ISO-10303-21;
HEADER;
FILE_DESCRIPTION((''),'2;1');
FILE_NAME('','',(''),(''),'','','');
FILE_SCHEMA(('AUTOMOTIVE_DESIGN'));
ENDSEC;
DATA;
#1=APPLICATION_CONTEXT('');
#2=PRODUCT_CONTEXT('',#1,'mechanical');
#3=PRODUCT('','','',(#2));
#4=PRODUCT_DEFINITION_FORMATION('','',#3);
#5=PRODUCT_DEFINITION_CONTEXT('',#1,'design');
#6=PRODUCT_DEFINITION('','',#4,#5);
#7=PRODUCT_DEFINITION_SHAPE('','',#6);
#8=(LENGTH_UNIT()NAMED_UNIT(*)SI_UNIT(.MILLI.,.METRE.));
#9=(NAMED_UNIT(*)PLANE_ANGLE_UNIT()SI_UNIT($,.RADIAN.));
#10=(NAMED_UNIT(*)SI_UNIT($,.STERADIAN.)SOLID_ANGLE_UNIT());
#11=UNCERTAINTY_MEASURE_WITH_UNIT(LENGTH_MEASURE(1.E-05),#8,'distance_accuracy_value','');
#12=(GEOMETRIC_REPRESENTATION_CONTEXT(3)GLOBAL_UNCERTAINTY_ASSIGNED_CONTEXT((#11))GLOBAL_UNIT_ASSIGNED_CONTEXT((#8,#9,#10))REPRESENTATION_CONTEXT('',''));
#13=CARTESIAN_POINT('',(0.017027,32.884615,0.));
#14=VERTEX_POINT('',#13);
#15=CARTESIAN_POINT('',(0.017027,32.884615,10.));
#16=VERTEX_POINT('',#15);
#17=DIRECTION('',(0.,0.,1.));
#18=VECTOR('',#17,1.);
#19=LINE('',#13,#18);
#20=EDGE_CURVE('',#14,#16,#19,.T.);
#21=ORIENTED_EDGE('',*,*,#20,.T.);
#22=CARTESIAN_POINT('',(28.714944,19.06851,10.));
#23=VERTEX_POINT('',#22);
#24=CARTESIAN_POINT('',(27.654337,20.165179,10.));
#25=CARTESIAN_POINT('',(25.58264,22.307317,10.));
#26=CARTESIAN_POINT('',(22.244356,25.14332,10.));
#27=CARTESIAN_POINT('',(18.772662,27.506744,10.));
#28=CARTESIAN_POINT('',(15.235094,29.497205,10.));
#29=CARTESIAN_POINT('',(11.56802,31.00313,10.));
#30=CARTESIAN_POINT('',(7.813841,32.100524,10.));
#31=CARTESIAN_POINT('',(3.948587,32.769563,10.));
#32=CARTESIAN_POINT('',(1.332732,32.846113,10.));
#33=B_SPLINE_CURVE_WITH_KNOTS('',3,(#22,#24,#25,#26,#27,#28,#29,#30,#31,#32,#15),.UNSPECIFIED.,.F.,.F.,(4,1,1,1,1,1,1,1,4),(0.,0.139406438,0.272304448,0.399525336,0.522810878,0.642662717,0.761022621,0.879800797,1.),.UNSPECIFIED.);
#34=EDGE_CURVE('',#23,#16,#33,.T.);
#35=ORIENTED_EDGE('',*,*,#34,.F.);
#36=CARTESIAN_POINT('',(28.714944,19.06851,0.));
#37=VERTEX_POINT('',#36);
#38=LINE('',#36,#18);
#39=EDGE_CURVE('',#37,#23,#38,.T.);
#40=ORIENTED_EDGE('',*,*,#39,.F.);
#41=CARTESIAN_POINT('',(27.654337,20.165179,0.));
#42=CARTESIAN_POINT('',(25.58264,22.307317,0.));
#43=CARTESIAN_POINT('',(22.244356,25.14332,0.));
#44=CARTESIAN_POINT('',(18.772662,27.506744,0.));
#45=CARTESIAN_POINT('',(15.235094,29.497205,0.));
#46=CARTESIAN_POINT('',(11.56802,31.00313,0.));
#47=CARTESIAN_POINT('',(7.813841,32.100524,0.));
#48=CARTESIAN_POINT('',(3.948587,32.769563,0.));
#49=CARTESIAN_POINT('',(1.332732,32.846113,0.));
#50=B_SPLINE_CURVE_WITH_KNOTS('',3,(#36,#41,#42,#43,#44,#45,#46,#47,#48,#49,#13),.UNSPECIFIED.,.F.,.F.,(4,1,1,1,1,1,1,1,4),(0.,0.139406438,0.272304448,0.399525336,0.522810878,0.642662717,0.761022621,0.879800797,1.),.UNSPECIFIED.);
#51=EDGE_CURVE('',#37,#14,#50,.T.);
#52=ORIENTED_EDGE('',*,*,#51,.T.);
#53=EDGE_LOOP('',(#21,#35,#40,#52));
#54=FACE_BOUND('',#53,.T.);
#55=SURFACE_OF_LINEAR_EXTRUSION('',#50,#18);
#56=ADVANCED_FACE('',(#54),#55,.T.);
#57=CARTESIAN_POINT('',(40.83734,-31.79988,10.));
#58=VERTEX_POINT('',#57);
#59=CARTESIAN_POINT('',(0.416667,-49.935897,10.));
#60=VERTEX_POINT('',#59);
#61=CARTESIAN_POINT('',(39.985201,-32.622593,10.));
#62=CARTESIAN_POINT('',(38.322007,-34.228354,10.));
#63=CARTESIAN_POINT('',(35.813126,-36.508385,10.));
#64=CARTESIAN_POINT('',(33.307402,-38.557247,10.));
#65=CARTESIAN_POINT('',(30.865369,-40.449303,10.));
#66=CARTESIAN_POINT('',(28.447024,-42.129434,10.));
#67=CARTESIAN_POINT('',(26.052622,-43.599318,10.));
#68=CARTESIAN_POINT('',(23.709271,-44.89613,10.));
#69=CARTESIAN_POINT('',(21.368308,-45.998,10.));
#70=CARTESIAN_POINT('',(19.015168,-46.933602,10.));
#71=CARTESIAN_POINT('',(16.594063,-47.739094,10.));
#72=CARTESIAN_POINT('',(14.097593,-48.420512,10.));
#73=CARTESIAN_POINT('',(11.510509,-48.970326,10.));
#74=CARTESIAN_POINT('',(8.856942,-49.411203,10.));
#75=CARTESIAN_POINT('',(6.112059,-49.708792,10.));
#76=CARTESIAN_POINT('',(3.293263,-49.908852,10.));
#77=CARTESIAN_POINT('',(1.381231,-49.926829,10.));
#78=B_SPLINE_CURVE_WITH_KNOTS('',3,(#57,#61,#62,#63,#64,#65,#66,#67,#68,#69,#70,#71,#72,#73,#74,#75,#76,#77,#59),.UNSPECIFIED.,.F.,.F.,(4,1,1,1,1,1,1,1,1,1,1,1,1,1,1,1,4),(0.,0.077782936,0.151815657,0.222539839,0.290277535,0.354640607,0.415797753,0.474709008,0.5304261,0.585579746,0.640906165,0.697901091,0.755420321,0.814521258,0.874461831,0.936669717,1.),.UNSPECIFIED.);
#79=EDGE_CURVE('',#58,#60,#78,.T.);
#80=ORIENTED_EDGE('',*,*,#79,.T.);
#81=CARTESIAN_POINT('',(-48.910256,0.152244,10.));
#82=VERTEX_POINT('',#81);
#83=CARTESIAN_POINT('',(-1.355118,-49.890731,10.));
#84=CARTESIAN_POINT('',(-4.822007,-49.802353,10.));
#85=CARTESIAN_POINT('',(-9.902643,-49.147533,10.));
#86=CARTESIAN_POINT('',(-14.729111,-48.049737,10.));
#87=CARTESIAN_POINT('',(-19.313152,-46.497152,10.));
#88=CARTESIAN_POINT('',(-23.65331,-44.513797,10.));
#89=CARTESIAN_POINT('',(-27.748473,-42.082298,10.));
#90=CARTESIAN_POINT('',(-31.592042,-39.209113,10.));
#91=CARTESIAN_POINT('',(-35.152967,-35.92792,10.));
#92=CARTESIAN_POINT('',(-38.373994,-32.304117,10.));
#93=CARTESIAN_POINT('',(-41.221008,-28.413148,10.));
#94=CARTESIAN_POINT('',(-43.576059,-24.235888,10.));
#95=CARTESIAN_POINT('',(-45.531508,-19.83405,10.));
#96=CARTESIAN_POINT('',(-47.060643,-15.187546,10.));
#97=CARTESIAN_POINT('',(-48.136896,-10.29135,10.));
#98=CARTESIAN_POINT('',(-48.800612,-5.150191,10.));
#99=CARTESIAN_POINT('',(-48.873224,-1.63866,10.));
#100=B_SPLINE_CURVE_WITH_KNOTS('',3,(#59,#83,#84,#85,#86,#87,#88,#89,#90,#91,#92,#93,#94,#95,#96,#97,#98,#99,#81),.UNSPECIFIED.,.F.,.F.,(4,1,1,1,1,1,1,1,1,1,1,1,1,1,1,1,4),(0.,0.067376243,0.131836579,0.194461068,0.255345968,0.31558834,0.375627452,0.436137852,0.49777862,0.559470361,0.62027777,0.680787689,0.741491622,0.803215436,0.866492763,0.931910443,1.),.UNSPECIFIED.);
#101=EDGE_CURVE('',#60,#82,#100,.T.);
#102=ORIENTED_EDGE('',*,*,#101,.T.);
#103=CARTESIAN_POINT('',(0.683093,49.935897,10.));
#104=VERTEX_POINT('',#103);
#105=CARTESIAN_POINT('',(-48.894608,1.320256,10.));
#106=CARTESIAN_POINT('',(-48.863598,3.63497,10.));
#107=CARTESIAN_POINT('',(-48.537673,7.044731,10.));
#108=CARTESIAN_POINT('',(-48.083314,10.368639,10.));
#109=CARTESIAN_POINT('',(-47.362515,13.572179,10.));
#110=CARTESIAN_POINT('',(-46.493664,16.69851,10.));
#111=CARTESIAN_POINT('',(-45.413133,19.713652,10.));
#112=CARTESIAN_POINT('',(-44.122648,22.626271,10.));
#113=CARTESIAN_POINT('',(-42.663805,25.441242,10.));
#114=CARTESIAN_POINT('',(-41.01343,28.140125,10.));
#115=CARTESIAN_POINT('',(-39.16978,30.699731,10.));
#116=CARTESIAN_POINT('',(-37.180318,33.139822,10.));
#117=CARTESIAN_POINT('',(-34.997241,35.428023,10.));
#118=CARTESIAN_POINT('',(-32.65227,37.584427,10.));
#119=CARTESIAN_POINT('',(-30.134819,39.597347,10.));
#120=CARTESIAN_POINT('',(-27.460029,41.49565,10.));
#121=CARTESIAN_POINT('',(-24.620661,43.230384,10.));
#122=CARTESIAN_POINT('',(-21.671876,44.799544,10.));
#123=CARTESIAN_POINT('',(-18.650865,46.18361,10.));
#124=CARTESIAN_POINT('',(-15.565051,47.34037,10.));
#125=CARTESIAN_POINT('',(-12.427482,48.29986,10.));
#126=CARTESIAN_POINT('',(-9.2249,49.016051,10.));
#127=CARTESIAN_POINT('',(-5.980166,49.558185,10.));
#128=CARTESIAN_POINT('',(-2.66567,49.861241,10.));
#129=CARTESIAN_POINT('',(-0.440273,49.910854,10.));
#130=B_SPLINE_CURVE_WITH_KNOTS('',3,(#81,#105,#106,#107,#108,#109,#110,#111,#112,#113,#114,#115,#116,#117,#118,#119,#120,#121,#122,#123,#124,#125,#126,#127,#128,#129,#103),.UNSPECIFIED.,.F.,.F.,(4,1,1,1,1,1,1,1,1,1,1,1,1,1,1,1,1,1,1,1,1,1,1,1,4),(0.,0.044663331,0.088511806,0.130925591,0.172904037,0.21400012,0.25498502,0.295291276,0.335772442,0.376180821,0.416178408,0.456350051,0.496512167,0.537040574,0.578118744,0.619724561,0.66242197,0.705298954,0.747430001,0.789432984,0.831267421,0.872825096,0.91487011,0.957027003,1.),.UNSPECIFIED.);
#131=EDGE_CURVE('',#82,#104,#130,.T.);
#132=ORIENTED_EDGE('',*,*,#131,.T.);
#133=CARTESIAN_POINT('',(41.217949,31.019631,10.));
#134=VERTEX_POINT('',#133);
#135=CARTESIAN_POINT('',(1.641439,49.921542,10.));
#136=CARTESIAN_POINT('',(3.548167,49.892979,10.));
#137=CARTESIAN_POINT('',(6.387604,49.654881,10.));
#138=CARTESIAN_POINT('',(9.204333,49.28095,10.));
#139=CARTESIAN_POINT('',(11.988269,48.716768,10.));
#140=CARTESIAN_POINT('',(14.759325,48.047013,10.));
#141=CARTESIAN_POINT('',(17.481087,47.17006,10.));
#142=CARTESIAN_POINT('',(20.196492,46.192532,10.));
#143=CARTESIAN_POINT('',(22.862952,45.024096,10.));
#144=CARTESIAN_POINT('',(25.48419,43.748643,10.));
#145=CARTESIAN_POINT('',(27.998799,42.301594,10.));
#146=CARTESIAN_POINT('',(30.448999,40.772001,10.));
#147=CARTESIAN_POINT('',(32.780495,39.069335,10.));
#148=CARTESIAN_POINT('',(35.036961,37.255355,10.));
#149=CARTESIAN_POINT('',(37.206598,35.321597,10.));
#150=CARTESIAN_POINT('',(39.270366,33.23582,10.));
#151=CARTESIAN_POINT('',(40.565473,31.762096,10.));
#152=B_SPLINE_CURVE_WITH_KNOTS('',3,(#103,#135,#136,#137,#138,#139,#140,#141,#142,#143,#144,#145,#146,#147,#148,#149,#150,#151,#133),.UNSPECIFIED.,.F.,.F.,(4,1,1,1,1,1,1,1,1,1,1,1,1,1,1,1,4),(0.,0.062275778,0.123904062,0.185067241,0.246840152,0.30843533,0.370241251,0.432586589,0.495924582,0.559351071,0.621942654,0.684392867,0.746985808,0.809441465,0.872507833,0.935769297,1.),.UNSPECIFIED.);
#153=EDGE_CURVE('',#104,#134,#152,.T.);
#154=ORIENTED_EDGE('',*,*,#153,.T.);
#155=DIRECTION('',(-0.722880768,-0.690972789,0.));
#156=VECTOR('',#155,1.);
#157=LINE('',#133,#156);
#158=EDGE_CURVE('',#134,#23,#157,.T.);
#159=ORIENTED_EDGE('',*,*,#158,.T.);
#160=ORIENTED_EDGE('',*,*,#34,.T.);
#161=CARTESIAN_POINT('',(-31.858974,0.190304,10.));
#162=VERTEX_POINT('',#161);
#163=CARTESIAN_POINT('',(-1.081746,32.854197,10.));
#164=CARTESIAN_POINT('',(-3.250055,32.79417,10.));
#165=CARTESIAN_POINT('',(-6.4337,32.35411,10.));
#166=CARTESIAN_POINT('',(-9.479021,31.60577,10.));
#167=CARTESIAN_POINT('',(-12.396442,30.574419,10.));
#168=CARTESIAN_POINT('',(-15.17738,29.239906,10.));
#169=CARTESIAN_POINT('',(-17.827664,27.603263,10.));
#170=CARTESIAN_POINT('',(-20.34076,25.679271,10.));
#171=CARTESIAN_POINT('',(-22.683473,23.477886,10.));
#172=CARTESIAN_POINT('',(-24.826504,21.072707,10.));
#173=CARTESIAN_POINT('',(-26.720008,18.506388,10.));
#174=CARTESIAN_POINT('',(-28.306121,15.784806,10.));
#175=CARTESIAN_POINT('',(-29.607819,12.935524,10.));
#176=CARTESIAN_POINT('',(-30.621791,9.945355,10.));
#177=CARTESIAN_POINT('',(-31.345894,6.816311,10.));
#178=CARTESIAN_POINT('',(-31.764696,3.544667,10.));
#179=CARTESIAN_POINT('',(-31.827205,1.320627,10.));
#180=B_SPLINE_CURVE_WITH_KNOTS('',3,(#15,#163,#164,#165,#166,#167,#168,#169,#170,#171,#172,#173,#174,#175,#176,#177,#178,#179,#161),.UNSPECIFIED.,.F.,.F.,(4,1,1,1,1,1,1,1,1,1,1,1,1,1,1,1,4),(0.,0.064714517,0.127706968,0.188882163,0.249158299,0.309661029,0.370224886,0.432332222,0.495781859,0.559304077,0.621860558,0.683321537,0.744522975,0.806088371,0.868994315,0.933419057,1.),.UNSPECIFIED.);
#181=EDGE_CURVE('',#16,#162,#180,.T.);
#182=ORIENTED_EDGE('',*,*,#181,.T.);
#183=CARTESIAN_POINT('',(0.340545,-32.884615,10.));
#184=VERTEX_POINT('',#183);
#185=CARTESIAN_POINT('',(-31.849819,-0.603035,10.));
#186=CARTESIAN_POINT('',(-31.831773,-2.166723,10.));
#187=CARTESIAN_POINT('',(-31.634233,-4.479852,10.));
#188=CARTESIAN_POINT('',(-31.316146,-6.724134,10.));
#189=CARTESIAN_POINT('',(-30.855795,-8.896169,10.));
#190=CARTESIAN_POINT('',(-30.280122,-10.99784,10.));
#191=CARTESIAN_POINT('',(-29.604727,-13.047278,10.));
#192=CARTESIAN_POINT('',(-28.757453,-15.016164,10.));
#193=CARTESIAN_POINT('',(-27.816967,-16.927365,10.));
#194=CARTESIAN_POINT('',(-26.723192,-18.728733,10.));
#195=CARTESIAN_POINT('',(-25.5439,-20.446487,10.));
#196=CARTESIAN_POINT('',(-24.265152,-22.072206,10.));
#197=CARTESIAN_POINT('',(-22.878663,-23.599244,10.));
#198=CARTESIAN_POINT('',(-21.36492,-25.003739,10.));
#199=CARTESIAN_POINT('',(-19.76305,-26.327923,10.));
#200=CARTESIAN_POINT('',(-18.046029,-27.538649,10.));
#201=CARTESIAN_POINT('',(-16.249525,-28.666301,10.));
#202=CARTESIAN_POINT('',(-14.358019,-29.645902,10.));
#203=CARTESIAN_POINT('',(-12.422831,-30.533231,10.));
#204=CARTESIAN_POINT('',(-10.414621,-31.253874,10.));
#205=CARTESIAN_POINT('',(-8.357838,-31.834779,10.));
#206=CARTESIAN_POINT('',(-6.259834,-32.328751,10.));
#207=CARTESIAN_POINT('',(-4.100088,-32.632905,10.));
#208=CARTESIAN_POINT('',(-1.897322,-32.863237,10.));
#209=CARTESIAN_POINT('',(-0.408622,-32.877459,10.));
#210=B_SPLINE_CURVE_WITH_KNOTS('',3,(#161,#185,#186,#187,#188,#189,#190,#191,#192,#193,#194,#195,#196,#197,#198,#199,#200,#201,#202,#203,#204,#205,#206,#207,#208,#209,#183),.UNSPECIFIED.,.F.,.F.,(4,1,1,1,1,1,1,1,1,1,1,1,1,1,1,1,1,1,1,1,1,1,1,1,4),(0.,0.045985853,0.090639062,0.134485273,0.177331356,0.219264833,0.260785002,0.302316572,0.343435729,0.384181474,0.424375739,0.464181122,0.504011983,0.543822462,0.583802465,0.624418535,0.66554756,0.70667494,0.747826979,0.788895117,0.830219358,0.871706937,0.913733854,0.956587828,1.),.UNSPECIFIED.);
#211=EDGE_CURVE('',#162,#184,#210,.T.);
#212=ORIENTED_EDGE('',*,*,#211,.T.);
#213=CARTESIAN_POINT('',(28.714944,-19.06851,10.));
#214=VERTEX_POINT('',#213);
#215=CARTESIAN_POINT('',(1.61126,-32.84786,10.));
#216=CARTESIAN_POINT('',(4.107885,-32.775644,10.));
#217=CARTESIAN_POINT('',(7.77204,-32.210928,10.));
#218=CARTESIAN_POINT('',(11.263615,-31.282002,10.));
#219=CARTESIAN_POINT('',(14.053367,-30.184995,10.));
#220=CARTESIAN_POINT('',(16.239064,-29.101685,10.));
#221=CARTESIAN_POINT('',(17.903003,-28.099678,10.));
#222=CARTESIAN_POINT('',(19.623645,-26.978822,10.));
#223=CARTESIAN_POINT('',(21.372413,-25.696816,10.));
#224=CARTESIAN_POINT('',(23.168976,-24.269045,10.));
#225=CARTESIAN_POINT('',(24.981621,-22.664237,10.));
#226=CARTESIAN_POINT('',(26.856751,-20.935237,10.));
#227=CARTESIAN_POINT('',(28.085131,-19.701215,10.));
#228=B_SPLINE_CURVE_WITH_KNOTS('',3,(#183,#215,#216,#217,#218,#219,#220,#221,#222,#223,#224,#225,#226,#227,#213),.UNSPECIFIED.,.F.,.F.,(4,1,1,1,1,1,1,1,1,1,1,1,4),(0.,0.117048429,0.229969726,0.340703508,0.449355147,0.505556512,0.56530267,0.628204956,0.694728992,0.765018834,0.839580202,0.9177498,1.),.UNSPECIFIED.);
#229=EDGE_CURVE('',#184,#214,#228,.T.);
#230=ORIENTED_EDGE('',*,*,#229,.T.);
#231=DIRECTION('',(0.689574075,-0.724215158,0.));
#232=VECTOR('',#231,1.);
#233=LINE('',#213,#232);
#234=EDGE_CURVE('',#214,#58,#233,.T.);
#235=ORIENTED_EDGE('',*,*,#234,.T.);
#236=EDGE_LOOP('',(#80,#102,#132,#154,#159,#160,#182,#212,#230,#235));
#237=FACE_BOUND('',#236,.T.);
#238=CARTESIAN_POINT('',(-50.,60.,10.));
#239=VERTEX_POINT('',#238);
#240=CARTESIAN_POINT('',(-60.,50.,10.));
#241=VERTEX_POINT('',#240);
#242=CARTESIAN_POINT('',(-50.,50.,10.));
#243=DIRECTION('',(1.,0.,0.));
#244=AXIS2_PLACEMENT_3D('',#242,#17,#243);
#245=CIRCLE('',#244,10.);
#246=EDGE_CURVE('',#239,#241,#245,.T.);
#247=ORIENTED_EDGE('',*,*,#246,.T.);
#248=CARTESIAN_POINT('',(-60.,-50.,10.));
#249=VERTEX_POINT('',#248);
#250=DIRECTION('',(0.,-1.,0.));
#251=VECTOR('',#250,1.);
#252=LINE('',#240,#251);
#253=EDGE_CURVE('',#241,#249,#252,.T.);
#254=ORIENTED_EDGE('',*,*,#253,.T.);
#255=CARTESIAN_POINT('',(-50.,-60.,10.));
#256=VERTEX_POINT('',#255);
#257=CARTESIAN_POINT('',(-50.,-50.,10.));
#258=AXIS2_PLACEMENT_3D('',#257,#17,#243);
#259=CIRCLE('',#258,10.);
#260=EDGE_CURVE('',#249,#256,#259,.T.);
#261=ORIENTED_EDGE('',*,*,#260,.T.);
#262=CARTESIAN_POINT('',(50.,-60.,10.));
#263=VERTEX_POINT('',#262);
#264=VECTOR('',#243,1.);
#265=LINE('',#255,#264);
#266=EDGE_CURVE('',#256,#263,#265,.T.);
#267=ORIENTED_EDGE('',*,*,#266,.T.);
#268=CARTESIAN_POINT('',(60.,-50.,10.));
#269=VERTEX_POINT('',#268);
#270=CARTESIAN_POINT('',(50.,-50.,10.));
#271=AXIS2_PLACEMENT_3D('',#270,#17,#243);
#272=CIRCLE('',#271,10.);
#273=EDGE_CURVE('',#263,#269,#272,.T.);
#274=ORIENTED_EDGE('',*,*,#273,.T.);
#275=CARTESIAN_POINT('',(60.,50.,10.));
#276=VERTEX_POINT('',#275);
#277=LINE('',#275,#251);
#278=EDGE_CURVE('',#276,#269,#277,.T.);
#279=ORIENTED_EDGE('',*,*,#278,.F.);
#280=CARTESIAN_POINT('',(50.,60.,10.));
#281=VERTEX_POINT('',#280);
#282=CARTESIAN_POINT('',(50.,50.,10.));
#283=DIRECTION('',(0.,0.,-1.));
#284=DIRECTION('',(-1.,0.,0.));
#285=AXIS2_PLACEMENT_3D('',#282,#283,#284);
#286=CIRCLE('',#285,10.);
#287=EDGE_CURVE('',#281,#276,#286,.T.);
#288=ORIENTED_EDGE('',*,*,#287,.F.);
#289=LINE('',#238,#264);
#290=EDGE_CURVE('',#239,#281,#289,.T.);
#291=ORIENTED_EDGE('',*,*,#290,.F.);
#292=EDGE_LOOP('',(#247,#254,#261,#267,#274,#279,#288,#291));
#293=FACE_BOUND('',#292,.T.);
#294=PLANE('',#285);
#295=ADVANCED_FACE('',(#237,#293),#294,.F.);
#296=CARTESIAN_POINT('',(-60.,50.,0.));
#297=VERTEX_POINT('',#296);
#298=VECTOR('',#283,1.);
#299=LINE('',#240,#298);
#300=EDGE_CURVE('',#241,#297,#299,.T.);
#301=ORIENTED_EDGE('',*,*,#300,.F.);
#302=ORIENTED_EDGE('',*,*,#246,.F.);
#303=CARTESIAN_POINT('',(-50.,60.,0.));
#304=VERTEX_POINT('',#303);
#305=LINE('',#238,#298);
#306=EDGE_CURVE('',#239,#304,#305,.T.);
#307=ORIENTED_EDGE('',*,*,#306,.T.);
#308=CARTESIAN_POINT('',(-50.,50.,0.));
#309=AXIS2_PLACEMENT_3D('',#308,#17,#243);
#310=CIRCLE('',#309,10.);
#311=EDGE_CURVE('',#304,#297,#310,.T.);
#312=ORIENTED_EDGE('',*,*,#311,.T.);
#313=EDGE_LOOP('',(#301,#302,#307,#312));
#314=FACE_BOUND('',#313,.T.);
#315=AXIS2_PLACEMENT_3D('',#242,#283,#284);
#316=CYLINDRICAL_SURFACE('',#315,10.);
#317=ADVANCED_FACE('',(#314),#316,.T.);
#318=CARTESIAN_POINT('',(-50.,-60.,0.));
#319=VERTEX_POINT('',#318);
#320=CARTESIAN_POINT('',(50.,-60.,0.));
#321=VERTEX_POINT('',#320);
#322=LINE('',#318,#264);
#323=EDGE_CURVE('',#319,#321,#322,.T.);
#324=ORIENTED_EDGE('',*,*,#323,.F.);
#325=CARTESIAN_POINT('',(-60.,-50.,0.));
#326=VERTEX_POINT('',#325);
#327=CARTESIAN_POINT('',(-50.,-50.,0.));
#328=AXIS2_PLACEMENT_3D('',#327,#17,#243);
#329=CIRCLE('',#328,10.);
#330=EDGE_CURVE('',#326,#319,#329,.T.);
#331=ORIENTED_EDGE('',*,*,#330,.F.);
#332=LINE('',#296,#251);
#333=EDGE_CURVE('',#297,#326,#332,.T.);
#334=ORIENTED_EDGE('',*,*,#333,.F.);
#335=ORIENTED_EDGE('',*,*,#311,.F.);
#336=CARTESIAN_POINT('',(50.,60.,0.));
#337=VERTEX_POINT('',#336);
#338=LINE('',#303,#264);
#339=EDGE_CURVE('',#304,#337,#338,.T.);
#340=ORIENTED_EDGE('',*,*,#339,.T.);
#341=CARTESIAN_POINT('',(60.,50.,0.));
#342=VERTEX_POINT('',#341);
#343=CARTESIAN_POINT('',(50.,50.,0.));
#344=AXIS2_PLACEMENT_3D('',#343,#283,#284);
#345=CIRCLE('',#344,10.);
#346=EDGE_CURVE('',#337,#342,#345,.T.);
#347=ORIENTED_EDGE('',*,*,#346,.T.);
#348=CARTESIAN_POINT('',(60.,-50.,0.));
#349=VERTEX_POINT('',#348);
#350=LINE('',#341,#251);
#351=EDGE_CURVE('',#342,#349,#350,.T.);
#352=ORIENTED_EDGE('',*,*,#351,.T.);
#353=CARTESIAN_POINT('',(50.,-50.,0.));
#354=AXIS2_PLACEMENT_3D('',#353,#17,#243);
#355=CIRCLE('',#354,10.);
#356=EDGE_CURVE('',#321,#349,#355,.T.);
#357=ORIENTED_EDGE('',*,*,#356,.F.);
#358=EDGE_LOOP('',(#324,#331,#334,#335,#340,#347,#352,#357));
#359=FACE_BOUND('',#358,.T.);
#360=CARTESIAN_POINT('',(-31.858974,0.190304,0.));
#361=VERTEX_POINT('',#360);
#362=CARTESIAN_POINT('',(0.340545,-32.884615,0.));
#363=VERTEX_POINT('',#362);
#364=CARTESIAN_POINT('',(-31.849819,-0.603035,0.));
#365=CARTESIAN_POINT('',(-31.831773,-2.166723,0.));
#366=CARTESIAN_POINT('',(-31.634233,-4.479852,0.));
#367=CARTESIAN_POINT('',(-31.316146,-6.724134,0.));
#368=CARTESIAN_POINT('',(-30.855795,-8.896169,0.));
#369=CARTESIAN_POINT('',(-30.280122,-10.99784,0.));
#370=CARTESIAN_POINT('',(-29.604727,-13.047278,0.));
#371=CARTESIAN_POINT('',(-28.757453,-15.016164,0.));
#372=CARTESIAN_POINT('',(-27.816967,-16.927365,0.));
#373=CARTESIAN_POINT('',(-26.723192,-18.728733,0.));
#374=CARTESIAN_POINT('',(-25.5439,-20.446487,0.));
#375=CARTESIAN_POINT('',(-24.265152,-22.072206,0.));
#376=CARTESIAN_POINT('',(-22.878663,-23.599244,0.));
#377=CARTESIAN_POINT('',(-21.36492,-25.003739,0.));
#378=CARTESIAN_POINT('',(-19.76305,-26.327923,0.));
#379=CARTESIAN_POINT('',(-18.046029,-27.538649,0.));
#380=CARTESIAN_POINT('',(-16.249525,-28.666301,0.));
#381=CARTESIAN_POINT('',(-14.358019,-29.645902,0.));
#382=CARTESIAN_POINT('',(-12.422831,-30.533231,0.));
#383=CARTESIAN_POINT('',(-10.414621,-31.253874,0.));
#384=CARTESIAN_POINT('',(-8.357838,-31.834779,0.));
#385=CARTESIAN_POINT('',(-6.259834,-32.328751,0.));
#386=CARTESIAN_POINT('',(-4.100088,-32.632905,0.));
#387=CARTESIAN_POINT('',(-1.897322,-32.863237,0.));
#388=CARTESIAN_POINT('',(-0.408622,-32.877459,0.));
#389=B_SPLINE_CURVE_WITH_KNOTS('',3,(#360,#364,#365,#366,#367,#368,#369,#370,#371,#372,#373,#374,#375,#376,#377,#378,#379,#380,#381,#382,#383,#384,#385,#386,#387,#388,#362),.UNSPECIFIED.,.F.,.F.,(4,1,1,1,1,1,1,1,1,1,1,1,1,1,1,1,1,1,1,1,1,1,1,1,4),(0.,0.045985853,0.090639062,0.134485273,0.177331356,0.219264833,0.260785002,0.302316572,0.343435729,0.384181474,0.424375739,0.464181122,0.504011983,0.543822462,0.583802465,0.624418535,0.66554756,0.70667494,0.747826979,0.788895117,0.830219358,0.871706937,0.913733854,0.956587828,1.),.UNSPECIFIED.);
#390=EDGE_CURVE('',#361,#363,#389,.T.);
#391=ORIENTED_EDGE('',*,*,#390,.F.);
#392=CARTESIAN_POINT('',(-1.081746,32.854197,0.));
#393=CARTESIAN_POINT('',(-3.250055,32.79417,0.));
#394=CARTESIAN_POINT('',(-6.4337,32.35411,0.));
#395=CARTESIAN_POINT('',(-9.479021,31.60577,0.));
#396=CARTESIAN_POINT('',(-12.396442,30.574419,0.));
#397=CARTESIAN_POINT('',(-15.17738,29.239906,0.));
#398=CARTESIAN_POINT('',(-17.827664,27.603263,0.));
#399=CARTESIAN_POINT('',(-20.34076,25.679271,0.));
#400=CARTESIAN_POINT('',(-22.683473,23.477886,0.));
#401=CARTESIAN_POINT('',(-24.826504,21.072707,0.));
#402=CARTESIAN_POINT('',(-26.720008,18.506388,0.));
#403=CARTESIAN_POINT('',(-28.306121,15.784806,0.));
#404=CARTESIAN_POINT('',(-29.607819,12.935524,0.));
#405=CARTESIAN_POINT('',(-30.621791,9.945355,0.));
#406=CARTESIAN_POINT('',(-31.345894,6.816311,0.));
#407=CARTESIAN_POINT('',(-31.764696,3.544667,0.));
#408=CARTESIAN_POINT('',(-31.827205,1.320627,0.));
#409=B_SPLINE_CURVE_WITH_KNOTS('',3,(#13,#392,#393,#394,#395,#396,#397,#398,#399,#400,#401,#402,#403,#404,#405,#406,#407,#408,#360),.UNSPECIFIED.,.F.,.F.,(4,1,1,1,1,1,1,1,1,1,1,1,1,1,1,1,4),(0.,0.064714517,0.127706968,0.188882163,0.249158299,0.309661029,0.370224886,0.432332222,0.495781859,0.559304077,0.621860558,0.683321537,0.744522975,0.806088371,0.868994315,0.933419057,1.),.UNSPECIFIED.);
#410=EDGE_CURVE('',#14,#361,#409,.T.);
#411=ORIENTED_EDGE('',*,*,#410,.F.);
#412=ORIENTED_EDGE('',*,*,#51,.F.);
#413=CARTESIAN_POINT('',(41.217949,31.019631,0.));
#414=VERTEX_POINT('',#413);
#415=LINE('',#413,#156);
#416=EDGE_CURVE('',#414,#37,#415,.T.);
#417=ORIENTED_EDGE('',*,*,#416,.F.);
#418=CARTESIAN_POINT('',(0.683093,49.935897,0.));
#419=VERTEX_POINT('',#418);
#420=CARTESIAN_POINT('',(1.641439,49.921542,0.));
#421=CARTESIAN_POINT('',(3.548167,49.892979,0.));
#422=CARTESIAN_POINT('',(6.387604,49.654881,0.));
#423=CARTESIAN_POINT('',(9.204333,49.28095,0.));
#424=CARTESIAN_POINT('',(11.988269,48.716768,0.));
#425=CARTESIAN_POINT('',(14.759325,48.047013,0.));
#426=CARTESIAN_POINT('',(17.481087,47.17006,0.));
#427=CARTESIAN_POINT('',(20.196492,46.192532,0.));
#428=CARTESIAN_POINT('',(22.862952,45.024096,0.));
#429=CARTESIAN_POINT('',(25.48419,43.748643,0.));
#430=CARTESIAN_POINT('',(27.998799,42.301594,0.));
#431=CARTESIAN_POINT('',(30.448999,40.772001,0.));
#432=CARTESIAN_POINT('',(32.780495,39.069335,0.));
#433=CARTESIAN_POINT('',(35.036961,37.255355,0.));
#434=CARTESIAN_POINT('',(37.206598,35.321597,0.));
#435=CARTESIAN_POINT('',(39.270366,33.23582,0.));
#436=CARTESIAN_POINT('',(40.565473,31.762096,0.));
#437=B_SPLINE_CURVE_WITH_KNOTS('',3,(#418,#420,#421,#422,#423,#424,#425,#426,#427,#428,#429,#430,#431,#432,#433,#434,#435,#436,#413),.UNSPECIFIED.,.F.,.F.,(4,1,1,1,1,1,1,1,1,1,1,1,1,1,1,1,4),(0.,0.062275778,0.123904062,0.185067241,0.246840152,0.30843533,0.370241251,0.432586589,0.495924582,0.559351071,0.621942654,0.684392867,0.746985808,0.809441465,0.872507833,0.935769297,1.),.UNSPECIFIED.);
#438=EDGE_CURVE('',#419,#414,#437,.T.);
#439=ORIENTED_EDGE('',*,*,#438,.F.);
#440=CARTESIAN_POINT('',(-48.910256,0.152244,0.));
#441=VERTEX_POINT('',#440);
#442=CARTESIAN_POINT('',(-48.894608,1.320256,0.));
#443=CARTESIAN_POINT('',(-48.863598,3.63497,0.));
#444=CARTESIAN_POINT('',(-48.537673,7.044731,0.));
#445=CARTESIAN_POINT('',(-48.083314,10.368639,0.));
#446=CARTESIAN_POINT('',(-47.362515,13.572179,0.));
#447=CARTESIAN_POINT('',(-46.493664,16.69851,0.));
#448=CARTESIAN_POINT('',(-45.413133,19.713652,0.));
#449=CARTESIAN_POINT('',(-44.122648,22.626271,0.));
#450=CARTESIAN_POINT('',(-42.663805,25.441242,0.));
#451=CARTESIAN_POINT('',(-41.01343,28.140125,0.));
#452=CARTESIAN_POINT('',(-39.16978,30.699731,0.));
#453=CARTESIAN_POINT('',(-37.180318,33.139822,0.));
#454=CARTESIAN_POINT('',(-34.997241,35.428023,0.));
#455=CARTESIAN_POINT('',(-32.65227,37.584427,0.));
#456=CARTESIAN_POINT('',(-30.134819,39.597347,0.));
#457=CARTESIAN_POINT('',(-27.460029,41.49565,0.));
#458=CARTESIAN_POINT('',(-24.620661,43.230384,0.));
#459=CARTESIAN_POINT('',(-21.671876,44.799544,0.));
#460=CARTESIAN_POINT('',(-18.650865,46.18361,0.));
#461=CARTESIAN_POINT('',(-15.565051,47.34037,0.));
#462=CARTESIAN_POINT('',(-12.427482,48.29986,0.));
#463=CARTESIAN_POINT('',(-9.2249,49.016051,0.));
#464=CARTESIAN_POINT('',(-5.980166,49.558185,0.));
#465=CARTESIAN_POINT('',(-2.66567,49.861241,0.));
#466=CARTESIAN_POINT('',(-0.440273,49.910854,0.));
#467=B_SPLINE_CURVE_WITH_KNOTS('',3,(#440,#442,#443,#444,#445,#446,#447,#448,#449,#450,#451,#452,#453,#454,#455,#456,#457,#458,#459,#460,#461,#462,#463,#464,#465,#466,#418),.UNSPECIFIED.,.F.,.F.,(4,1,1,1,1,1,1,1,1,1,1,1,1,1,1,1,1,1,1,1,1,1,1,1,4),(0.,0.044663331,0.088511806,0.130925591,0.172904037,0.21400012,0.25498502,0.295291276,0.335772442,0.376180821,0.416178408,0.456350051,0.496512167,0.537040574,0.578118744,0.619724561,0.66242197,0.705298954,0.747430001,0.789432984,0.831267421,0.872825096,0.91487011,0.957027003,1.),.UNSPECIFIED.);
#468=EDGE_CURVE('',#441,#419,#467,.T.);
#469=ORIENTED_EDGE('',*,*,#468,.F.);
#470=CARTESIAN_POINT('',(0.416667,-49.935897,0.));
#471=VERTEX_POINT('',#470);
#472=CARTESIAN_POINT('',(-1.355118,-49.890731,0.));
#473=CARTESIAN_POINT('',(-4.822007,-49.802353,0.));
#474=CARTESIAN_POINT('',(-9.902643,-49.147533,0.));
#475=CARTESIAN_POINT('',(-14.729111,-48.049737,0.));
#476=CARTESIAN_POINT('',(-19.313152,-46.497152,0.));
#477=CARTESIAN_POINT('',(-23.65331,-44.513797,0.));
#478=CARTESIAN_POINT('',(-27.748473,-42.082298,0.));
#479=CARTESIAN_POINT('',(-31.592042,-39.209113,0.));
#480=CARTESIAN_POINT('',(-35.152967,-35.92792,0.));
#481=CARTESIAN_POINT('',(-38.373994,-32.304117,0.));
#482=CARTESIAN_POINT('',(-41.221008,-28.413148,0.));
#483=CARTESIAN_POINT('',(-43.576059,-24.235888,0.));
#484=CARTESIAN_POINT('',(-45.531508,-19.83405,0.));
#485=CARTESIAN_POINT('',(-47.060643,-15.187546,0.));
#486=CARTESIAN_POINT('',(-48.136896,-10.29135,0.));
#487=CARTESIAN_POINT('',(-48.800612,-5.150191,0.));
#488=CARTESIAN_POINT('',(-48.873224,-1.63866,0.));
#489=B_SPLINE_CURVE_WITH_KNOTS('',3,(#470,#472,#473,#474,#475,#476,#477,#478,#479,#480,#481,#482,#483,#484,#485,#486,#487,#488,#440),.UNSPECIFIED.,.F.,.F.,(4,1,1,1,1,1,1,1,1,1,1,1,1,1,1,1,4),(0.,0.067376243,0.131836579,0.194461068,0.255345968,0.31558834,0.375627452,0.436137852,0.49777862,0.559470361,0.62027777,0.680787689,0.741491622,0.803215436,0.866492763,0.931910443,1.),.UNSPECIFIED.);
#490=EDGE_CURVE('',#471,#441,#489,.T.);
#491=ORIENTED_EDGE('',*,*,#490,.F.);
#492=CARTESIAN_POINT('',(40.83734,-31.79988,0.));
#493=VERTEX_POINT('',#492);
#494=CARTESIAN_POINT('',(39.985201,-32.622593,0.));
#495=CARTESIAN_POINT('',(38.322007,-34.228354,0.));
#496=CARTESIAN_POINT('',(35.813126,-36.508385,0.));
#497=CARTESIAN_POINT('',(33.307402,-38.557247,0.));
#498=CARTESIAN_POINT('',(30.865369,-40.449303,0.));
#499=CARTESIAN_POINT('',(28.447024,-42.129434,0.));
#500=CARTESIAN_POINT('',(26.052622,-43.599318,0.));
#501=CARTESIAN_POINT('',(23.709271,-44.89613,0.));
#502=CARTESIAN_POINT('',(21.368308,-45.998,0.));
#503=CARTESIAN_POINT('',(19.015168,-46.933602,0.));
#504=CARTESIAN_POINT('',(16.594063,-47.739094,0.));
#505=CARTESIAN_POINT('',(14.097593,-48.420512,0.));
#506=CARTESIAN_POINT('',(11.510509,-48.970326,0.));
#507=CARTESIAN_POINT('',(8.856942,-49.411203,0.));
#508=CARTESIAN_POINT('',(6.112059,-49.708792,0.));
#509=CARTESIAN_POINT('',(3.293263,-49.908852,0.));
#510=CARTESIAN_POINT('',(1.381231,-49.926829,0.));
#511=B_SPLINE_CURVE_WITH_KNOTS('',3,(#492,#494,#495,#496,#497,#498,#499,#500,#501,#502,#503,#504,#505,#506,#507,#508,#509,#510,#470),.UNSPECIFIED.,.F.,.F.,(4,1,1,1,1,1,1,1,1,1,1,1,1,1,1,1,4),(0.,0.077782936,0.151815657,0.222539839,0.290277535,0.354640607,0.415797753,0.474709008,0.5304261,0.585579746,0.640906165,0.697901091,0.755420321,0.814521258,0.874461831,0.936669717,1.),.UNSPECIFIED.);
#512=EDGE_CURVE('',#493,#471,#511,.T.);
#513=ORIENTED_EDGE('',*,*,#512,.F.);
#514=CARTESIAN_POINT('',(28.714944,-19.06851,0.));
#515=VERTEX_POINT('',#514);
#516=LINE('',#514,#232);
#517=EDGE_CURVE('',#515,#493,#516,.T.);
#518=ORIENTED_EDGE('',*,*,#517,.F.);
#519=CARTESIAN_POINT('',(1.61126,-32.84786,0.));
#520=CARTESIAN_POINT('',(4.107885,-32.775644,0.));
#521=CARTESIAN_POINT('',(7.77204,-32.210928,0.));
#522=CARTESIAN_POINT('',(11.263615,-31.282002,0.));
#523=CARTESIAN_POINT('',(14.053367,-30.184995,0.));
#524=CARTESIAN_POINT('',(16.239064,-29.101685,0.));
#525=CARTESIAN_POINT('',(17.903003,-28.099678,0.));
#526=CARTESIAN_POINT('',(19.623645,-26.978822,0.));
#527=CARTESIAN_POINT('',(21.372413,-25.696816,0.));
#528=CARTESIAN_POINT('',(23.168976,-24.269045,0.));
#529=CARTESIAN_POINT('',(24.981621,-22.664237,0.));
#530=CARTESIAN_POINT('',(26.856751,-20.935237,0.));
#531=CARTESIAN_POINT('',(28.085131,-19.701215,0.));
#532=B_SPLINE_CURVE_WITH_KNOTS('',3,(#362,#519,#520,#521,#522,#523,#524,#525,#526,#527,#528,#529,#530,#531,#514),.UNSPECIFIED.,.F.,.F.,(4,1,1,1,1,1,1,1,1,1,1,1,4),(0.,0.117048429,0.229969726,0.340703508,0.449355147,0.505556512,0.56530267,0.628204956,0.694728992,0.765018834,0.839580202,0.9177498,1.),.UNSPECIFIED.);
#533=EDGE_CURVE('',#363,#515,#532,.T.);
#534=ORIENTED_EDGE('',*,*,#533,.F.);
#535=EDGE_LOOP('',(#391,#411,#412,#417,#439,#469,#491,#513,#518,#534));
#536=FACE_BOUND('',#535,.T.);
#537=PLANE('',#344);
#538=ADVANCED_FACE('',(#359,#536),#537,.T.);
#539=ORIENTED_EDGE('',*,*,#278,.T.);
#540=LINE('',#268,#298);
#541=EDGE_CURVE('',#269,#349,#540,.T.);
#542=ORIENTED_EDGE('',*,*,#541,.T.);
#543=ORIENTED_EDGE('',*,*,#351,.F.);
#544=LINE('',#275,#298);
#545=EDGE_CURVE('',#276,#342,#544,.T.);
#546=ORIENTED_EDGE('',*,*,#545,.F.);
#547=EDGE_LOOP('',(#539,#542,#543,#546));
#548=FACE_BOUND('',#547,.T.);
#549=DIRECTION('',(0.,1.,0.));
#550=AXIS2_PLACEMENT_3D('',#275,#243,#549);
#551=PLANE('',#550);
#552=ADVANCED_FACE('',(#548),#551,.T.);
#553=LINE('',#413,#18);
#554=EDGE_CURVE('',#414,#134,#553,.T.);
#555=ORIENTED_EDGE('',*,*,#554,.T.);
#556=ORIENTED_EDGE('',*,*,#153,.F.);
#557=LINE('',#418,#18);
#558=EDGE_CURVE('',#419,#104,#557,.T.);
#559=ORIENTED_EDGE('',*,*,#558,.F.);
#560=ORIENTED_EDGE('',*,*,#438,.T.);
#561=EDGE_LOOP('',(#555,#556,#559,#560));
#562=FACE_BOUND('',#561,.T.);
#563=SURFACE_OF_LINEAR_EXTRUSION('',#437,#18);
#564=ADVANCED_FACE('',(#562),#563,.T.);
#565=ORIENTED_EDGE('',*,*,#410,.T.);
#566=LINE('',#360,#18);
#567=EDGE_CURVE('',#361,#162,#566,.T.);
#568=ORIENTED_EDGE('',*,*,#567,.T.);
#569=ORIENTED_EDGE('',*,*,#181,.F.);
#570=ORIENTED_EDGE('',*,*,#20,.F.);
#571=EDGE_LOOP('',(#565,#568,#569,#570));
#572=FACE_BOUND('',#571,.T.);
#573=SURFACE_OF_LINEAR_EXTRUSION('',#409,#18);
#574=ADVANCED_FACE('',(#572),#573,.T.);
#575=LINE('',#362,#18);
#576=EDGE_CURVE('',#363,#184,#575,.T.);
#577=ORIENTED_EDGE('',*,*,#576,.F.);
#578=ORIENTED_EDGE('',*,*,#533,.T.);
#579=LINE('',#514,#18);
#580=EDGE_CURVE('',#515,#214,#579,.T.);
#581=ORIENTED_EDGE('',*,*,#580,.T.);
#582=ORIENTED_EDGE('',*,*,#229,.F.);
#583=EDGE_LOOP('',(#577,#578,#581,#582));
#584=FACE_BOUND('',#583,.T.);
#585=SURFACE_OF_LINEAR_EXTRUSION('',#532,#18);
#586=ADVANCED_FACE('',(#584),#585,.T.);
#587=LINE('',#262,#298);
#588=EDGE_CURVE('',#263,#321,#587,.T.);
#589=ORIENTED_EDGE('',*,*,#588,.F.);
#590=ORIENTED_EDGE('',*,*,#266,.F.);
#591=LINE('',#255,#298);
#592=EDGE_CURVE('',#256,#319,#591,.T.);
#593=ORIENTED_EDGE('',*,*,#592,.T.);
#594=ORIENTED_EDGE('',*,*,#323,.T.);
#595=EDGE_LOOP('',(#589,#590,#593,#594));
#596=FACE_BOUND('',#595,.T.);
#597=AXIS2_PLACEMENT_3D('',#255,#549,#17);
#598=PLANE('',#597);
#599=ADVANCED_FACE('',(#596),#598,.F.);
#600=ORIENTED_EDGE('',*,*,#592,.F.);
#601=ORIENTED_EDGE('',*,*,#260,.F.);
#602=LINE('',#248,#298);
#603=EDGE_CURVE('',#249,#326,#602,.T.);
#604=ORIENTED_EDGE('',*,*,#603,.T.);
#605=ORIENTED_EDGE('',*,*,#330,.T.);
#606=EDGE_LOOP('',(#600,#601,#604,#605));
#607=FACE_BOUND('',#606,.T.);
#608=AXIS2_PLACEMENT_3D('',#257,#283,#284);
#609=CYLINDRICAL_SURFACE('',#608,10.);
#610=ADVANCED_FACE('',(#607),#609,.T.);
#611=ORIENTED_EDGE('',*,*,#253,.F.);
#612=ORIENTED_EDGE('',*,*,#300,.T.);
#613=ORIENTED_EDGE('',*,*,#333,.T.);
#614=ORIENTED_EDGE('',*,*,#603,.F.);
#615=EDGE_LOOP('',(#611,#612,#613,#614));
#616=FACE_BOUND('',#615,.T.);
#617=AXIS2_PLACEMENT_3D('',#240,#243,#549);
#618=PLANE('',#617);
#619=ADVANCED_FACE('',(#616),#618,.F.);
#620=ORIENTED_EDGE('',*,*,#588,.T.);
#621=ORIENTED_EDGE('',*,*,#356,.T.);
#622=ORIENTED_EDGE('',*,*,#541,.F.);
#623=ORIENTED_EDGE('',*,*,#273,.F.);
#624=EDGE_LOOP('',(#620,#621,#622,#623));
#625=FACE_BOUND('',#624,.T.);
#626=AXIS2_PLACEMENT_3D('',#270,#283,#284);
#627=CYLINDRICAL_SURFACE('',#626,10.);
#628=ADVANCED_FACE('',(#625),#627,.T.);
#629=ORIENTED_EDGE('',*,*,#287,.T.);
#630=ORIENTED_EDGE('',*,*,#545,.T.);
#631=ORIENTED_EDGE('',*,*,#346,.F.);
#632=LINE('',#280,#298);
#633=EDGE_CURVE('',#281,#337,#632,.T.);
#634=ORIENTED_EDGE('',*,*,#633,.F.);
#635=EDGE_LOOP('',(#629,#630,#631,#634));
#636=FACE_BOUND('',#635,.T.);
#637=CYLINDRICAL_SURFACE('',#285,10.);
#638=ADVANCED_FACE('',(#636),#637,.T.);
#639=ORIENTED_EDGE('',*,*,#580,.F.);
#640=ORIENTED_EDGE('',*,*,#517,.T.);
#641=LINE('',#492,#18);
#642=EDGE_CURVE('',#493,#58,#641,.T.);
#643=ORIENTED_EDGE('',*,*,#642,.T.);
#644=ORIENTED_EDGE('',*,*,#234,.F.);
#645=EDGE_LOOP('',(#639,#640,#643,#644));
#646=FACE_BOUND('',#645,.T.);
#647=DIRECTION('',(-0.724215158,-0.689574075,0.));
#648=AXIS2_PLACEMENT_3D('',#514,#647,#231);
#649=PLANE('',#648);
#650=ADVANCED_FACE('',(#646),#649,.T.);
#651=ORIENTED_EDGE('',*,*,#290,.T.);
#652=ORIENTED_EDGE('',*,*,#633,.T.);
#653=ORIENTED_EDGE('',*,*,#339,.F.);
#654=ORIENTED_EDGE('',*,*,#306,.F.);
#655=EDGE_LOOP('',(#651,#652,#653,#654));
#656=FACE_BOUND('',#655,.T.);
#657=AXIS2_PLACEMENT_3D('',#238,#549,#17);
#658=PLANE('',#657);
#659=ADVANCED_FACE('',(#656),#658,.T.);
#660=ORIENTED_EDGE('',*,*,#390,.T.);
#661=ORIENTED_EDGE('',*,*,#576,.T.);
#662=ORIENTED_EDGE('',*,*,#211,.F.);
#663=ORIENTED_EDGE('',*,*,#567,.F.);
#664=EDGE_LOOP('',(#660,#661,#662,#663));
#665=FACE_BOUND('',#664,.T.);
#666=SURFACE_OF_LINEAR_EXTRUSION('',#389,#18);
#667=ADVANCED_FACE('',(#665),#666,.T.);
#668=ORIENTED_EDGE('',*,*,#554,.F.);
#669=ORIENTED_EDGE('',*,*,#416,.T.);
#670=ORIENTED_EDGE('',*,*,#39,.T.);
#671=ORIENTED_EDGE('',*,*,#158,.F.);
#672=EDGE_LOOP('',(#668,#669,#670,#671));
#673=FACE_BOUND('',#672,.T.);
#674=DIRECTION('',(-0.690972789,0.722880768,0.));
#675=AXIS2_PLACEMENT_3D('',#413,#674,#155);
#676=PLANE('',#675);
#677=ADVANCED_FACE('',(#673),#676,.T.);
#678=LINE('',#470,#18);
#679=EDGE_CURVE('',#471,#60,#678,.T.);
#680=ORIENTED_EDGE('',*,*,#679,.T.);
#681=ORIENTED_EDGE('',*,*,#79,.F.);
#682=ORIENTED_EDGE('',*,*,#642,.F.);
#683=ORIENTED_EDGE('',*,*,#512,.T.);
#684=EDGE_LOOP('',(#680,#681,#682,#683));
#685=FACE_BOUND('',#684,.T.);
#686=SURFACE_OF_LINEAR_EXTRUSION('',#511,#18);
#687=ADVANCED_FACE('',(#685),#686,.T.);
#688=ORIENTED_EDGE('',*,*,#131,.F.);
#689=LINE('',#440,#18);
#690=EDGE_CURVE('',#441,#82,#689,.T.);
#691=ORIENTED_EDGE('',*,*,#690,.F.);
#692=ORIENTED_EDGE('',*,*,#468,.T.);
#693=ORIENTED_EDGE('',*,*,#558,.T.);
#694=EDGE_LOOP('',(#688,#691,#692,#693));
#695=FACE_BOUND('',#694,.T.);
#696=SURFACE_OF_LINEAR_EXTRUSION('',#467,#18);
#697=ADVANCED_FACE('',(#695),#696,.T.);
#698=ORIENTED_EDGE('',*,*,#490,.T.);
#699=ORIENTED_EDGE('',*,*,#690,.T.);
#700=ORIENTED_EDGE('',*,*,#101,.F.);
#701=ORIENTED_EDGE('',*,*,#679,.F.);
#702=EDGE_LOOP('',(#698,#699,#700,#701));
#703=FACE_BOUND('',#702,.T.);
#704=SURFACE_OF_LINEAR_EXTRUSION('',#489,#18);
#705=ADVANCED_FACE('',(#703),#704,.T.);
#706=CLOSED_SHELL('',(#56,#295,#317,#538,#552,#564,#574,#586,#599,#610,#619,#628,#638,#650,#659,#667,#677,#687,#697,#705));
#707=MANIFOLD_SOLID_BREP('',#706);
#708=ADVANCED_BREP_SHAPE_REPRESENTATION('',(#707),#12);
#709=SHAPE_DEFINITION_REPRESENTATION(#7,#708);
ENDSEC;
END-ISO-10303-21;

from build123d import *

# Parameters (mm, degrees)
BOSS_EXTRUDE1_DEPTH = 10
CUT_EXTRUDE16_DEPTH = 10


with BuildPart() as part:
    # Sketch1 → Boss-Extrude1 (new body)
    with BuildSketch(Plane.XY):
        with BuildLine():
            Line((-50, 60), (50, 60))
            ThreePointArc((50, 60), (57.071067812, 57.071067812), (60, 50))
            Line((60, 50), (60, -50))
            ThreePointArc((60, -50), (57.071067812, -57.071067812), (50, -60))
            Line((50, -60), (-50, -60))
            ThreePointArc((-50, -60), (-57.071067812, -57.071067812), (-60, -50))
            Line((-60, -50), (-60, 50))
            ThreePointArc((-60, 50), (-57.071067812, 57.071067812), (-50, 60))
        make_face()
    extrude(amount=BOSS_EXTRUDE1_DEPTH)

    # Sketch2 → Cut-Extrude16 (cut)
    with BuildSketch(Plane.XY.offset(10)):
        with BuildLine():
            Line((41.217948718, 31.01963141), (28.71494391, 19.068509615))
            add(Edge.make_bspline(
                [(28.71494391, 19.068509615), (27.654337183, 20.165178749), (25.582639967, 22.307317142), (22.244356118, 25.143319595), (18.772662463, 27.506743914), (15.235093873, 29.497204828), (11.568019744, 31.00313037), (7.813841439, 32.100523678), (3.948587424, 32.7695629), (1.332732176, 32.846112827), (0.017027244, 32.884615385)],
                knots=[0, 0, 0, 0, 1.115251505, 2.178435587, 3.19620269, 4.182487026, 5.141301733, 6.088180966, 7.038406374, 8, 8, 8, 8], degree=3))
            add(Edge.make_bspline(
                [(0.017027244, 32.884615385), (-1.081746264, 32.854197018), (-3.250054721, 32.794169724), (-6.433699741, 32.354110448), (-9.479020737, 31.605770498), (-12.396442325, 30.574419427), (-15.177379867, 29.239905879), (-17.827663943, 27.603262735), (-20.340760389, 25.679271209), (-22.683472657, 23.477886123), (-24.826503507, 21.072707488), (-26.720007718, 18.506387623), (-28.30612123, 15.784805822), (-29.60781879, 12.935524265), (-30.621790871, 9.945355068), (-31.345894329, 6.816311329), (-31.764696418, 3.544666601), (-31.827205437, 1.320626893), (-31.858974359, 0.190304487)],
                knots=[0, 0, 0, 0, 1.035432265, 2.043311493, 3.022114605, 3.98653278, 4.95457646, 5.923598177, 6.917315552, 7.932509744, 8.948865224, 9.949768934, 10.933144597, 11.912367597, 12.897413939, 13.903909035, 14.934704909, 16, 16, 16, 16], degree=3))
            add(Edge.make_bspline(
                [(-31.858974359, 0.190304487), (-31.849818918, -0.603034863), (-31.831773356, -2.166723023), (-31.634232763, -4.479851798), (-31.316145828, -6.72413356), (-30.855795226, -8.896168818), (-30.280122272, -10.997839879), (-29.604726818, -13.047277753), (-28.757453155, -15.016163821), (-27.816966606, -16.927365418), (-26.723191587, -18.728733016), (-25.543900342, -20.44648652), (-24.265151526, -22.072205676), (-22.878662607, -23.599244492), (-21.364920479, -25.003738772), (-19.763049776, -26.32792333), (-18.046029154, -27.538649342), (-16.249525485, -28.66630131), (-14.358019245, -29.645902168), (-12.422831386, -30.533231294), (-10.414620559, -31.25387447), (-8.357837936, -31.834778614), (-6.259833735, -32.328750831), (-4.100087524, -32.632904706), (-1.8973216, -32.863236875), (-0.408621569, -32.87745854), (0.340544872, -32.884615385)],
                knots=[0, 0, 0, 0, 1.103660481, 2.175337485, 3.227646561, 4.255952547, 5.262355991, 6.258840057, 7.255597736, 8.242457506, 9.22035537, 10.185017736, 11.140346927, 12.096287581, 13.051739095, 14.01125915, 14.986044842, 15.97314143, 16.960198552, 17.947847494, 18.933482797, 19.925264591, 20.920966487, 21.929612487, 22.958107872, 24, 24, 24, 24], degree=3))
            add(Edge.make_bspline(
                [(0.340544872, -32.884615385), (1.611259903, -32.847859563), (4.107884503, -32.77564393), (7.772040087, -32.210927911), (11.263615319, -31.282002017), (14.053367221, -30.184994512), (16.239064148, -29.101685359), (17.903002908, -28.09967774), (19.623645272, -26.978822204), (21.372412843, -25.696816449), (23.168975786, -24.269045058), (24.981620624, -22.664237173), (26.856751385, -20.935236817), (28.08513096, -19.701215296), (28.71494391, -19.068509615)],
                knots=[0, 0, 0, 0, 1.404581149, 2.759636711, 4.088442092, 5.392261763, 6.066678138, 6.783632037, 7.538459478, 8.336747902, 9.180226004, 10.074962426, 11.012997595, 12, 12, 12, 12], degree=3))
            Line((28.71494391, -19.068509615), (40.837339744, -31.799879808))
            add(Edge.make_bspline(
                [(40.837339744, -31.799879808), (39.985200566, -32.622593431), (38.322007128, -34.228354481), (35.813125998, -36.508385331), (33.307402394, -38.557246511), (30.865369379, -40.449302703), (28.447023904, -42.129433712), (26.052622431, -43.599317508), (23.709270632, -44.896129576), (21.368308056, -45.997999818), (19.015168024, -46.933602094), (16.594063463, -47.739094243), (14.097592829, -48.420511624), (11.510508817, -48.970325958), (8.856942171, -49.411202829), (6.112059034, -49.708792168), (3.293263318, -49.908851579), (1.381230514, -49.926828575), (0.416666667, -49.935897436)],
                knots=[0, 0, 0, 0, 1.244526981, 2.429050516, 3.560637417, 4.644440555, 5.67424972, 6.652764056, 7.595344123, 8.486817594, 9.369275933, 10.254498637, 11.166417451, 12.086725134, 13.032340136, 13.991389299, 14.986715468, 16, 16, 16, 16], degree=3))
            add(Edge.make_bspline(
                [(0.416666667, -49.935897436), (-1.35511764, -49.89073112), (-4.822007032, -49.802353196), (-9.902643041, -49.147532612), (-14.729110869, -48.049737439), (-19.313152407, -46.497152269), (-23.653310037, -44.513797477), (-27.748473415, -42.082297632), (-31.592042048, -39.209112847), (-35.152967466, -35.927919636), (-38.373993978, -32.304117189), (-41.221008401, -28.413147516), (-43.576058839, -24.235887927), (-45.531507964, -19.834049889), (-47.060643461, -15.187546107), (-48.136895621, -10.291350477), (-48.800612473, -5.150190581), (-48.87322404, -1.638659859), (-48.91025641, 0.15224359)],
                knots=[0, 0, 0, 0, 1.078019885, 2.10938526, 3.111377082, 4.085535484, 5.04941344, 6.010039228, 6.978205633, 7.964457913, 8.951525778, 9.924444315, 10.892603023, 11.863865945, 12.85144698, 13.863884204, 14.910567087, 16, 16, 16, 16], degree=3))
            add(Edge.make_bspline(
                [(-48.91025641, 0.15224359), (-48.894608325, 1.320255539), (-48.863597646, 3.634969751), (-48.537672531, 7.044731317), (-48.08331397, 10.368638931), (-47.362515429, 13.572179417), (-46.493663878, 16.698510375), (-45.41313282, 19.713652236), (-44.122648013, 22.626270824), (-42.663804821, 25.441242036), (-41.013430113, 28.140124795), (-39.169780387, 30.699731445), (-37.180318376, 33.139821677), (-34.99724055, 35.428023165), (-32.652269888, 37.584426764), (-30.134819118, 39.597346508), (-27.460029448, 41.495649937), (-24.620661217, 43.230384415), (-21.671875784, 44.799543954), (-18.650865094, 46.183609685), (-15.565051419, 47.340369909), (-12.42748186, 48.299859845), (-9.224900224, 49.016051238), (-5.980165725, 49.558185018), (-2.665669568, 49.861241267), (-0.440272542, 49.910853509), (0.683092949, 49.935897436)],
                knots=[0, 0, 0, 0, 1.071919942, 2.124283339, 3.142214191, 4.149696895, 5.136002878, 6.119640489, 7.086990633, 8.058538607, 9.028339693, 9.988281803, 10.952401235, 11.916291999, 12.888973767, 13.874849856, 14.873389453, 15.898127285, 16.927174885, 17.938320013, 18.946391617, 19.950418109, 20.947802303, 21.956882652, 22.968648068, 24, 24, 24, 24], degree=3))
            add(Edge.make_bspline(
                [(0.683092949, 49.935897436), (1.641438895, 49.921541632), (3.548166658, 49.892979285), (6.387604259, 49.654881043), (9.204333367, 49.280950163), (11.988269228, 48.716768097), (14.759325397, 48.047012689), (17.481087091, 47.170060366), (20.196491572, 46.192531741), (22.862951754, 45.024095868), (25.484189625, 43.74864257), (27.998798557, 42.301594484), (30.448998604, 40.772001333), (32.780494803, 39.069335094), (35.036961098, 37.255354635), (37.206598229, 35.321596721), (39.270366363, 33.235819929), (40.565472654, 31.7620955), (41.217948718, 31.01963141)],
                knots=[0, 0, 0, 0, 0.996412454, 1.982464992, 2.961075852, 3.949442424, 4.934965278, 5.923860011, 6.921385422, 7.934793307, 8.949617135, 9.951082467, 10.950285876, 11.951772932, 12.951063433, 13.960125323, 14.972308753, 16, 16, 16, 16], degree=3))
        make_face()
    extrude(amount=-CUT_EXTRUDE16_DEPTH, mode=Mode.SUBTRACT)


solid = part.part
